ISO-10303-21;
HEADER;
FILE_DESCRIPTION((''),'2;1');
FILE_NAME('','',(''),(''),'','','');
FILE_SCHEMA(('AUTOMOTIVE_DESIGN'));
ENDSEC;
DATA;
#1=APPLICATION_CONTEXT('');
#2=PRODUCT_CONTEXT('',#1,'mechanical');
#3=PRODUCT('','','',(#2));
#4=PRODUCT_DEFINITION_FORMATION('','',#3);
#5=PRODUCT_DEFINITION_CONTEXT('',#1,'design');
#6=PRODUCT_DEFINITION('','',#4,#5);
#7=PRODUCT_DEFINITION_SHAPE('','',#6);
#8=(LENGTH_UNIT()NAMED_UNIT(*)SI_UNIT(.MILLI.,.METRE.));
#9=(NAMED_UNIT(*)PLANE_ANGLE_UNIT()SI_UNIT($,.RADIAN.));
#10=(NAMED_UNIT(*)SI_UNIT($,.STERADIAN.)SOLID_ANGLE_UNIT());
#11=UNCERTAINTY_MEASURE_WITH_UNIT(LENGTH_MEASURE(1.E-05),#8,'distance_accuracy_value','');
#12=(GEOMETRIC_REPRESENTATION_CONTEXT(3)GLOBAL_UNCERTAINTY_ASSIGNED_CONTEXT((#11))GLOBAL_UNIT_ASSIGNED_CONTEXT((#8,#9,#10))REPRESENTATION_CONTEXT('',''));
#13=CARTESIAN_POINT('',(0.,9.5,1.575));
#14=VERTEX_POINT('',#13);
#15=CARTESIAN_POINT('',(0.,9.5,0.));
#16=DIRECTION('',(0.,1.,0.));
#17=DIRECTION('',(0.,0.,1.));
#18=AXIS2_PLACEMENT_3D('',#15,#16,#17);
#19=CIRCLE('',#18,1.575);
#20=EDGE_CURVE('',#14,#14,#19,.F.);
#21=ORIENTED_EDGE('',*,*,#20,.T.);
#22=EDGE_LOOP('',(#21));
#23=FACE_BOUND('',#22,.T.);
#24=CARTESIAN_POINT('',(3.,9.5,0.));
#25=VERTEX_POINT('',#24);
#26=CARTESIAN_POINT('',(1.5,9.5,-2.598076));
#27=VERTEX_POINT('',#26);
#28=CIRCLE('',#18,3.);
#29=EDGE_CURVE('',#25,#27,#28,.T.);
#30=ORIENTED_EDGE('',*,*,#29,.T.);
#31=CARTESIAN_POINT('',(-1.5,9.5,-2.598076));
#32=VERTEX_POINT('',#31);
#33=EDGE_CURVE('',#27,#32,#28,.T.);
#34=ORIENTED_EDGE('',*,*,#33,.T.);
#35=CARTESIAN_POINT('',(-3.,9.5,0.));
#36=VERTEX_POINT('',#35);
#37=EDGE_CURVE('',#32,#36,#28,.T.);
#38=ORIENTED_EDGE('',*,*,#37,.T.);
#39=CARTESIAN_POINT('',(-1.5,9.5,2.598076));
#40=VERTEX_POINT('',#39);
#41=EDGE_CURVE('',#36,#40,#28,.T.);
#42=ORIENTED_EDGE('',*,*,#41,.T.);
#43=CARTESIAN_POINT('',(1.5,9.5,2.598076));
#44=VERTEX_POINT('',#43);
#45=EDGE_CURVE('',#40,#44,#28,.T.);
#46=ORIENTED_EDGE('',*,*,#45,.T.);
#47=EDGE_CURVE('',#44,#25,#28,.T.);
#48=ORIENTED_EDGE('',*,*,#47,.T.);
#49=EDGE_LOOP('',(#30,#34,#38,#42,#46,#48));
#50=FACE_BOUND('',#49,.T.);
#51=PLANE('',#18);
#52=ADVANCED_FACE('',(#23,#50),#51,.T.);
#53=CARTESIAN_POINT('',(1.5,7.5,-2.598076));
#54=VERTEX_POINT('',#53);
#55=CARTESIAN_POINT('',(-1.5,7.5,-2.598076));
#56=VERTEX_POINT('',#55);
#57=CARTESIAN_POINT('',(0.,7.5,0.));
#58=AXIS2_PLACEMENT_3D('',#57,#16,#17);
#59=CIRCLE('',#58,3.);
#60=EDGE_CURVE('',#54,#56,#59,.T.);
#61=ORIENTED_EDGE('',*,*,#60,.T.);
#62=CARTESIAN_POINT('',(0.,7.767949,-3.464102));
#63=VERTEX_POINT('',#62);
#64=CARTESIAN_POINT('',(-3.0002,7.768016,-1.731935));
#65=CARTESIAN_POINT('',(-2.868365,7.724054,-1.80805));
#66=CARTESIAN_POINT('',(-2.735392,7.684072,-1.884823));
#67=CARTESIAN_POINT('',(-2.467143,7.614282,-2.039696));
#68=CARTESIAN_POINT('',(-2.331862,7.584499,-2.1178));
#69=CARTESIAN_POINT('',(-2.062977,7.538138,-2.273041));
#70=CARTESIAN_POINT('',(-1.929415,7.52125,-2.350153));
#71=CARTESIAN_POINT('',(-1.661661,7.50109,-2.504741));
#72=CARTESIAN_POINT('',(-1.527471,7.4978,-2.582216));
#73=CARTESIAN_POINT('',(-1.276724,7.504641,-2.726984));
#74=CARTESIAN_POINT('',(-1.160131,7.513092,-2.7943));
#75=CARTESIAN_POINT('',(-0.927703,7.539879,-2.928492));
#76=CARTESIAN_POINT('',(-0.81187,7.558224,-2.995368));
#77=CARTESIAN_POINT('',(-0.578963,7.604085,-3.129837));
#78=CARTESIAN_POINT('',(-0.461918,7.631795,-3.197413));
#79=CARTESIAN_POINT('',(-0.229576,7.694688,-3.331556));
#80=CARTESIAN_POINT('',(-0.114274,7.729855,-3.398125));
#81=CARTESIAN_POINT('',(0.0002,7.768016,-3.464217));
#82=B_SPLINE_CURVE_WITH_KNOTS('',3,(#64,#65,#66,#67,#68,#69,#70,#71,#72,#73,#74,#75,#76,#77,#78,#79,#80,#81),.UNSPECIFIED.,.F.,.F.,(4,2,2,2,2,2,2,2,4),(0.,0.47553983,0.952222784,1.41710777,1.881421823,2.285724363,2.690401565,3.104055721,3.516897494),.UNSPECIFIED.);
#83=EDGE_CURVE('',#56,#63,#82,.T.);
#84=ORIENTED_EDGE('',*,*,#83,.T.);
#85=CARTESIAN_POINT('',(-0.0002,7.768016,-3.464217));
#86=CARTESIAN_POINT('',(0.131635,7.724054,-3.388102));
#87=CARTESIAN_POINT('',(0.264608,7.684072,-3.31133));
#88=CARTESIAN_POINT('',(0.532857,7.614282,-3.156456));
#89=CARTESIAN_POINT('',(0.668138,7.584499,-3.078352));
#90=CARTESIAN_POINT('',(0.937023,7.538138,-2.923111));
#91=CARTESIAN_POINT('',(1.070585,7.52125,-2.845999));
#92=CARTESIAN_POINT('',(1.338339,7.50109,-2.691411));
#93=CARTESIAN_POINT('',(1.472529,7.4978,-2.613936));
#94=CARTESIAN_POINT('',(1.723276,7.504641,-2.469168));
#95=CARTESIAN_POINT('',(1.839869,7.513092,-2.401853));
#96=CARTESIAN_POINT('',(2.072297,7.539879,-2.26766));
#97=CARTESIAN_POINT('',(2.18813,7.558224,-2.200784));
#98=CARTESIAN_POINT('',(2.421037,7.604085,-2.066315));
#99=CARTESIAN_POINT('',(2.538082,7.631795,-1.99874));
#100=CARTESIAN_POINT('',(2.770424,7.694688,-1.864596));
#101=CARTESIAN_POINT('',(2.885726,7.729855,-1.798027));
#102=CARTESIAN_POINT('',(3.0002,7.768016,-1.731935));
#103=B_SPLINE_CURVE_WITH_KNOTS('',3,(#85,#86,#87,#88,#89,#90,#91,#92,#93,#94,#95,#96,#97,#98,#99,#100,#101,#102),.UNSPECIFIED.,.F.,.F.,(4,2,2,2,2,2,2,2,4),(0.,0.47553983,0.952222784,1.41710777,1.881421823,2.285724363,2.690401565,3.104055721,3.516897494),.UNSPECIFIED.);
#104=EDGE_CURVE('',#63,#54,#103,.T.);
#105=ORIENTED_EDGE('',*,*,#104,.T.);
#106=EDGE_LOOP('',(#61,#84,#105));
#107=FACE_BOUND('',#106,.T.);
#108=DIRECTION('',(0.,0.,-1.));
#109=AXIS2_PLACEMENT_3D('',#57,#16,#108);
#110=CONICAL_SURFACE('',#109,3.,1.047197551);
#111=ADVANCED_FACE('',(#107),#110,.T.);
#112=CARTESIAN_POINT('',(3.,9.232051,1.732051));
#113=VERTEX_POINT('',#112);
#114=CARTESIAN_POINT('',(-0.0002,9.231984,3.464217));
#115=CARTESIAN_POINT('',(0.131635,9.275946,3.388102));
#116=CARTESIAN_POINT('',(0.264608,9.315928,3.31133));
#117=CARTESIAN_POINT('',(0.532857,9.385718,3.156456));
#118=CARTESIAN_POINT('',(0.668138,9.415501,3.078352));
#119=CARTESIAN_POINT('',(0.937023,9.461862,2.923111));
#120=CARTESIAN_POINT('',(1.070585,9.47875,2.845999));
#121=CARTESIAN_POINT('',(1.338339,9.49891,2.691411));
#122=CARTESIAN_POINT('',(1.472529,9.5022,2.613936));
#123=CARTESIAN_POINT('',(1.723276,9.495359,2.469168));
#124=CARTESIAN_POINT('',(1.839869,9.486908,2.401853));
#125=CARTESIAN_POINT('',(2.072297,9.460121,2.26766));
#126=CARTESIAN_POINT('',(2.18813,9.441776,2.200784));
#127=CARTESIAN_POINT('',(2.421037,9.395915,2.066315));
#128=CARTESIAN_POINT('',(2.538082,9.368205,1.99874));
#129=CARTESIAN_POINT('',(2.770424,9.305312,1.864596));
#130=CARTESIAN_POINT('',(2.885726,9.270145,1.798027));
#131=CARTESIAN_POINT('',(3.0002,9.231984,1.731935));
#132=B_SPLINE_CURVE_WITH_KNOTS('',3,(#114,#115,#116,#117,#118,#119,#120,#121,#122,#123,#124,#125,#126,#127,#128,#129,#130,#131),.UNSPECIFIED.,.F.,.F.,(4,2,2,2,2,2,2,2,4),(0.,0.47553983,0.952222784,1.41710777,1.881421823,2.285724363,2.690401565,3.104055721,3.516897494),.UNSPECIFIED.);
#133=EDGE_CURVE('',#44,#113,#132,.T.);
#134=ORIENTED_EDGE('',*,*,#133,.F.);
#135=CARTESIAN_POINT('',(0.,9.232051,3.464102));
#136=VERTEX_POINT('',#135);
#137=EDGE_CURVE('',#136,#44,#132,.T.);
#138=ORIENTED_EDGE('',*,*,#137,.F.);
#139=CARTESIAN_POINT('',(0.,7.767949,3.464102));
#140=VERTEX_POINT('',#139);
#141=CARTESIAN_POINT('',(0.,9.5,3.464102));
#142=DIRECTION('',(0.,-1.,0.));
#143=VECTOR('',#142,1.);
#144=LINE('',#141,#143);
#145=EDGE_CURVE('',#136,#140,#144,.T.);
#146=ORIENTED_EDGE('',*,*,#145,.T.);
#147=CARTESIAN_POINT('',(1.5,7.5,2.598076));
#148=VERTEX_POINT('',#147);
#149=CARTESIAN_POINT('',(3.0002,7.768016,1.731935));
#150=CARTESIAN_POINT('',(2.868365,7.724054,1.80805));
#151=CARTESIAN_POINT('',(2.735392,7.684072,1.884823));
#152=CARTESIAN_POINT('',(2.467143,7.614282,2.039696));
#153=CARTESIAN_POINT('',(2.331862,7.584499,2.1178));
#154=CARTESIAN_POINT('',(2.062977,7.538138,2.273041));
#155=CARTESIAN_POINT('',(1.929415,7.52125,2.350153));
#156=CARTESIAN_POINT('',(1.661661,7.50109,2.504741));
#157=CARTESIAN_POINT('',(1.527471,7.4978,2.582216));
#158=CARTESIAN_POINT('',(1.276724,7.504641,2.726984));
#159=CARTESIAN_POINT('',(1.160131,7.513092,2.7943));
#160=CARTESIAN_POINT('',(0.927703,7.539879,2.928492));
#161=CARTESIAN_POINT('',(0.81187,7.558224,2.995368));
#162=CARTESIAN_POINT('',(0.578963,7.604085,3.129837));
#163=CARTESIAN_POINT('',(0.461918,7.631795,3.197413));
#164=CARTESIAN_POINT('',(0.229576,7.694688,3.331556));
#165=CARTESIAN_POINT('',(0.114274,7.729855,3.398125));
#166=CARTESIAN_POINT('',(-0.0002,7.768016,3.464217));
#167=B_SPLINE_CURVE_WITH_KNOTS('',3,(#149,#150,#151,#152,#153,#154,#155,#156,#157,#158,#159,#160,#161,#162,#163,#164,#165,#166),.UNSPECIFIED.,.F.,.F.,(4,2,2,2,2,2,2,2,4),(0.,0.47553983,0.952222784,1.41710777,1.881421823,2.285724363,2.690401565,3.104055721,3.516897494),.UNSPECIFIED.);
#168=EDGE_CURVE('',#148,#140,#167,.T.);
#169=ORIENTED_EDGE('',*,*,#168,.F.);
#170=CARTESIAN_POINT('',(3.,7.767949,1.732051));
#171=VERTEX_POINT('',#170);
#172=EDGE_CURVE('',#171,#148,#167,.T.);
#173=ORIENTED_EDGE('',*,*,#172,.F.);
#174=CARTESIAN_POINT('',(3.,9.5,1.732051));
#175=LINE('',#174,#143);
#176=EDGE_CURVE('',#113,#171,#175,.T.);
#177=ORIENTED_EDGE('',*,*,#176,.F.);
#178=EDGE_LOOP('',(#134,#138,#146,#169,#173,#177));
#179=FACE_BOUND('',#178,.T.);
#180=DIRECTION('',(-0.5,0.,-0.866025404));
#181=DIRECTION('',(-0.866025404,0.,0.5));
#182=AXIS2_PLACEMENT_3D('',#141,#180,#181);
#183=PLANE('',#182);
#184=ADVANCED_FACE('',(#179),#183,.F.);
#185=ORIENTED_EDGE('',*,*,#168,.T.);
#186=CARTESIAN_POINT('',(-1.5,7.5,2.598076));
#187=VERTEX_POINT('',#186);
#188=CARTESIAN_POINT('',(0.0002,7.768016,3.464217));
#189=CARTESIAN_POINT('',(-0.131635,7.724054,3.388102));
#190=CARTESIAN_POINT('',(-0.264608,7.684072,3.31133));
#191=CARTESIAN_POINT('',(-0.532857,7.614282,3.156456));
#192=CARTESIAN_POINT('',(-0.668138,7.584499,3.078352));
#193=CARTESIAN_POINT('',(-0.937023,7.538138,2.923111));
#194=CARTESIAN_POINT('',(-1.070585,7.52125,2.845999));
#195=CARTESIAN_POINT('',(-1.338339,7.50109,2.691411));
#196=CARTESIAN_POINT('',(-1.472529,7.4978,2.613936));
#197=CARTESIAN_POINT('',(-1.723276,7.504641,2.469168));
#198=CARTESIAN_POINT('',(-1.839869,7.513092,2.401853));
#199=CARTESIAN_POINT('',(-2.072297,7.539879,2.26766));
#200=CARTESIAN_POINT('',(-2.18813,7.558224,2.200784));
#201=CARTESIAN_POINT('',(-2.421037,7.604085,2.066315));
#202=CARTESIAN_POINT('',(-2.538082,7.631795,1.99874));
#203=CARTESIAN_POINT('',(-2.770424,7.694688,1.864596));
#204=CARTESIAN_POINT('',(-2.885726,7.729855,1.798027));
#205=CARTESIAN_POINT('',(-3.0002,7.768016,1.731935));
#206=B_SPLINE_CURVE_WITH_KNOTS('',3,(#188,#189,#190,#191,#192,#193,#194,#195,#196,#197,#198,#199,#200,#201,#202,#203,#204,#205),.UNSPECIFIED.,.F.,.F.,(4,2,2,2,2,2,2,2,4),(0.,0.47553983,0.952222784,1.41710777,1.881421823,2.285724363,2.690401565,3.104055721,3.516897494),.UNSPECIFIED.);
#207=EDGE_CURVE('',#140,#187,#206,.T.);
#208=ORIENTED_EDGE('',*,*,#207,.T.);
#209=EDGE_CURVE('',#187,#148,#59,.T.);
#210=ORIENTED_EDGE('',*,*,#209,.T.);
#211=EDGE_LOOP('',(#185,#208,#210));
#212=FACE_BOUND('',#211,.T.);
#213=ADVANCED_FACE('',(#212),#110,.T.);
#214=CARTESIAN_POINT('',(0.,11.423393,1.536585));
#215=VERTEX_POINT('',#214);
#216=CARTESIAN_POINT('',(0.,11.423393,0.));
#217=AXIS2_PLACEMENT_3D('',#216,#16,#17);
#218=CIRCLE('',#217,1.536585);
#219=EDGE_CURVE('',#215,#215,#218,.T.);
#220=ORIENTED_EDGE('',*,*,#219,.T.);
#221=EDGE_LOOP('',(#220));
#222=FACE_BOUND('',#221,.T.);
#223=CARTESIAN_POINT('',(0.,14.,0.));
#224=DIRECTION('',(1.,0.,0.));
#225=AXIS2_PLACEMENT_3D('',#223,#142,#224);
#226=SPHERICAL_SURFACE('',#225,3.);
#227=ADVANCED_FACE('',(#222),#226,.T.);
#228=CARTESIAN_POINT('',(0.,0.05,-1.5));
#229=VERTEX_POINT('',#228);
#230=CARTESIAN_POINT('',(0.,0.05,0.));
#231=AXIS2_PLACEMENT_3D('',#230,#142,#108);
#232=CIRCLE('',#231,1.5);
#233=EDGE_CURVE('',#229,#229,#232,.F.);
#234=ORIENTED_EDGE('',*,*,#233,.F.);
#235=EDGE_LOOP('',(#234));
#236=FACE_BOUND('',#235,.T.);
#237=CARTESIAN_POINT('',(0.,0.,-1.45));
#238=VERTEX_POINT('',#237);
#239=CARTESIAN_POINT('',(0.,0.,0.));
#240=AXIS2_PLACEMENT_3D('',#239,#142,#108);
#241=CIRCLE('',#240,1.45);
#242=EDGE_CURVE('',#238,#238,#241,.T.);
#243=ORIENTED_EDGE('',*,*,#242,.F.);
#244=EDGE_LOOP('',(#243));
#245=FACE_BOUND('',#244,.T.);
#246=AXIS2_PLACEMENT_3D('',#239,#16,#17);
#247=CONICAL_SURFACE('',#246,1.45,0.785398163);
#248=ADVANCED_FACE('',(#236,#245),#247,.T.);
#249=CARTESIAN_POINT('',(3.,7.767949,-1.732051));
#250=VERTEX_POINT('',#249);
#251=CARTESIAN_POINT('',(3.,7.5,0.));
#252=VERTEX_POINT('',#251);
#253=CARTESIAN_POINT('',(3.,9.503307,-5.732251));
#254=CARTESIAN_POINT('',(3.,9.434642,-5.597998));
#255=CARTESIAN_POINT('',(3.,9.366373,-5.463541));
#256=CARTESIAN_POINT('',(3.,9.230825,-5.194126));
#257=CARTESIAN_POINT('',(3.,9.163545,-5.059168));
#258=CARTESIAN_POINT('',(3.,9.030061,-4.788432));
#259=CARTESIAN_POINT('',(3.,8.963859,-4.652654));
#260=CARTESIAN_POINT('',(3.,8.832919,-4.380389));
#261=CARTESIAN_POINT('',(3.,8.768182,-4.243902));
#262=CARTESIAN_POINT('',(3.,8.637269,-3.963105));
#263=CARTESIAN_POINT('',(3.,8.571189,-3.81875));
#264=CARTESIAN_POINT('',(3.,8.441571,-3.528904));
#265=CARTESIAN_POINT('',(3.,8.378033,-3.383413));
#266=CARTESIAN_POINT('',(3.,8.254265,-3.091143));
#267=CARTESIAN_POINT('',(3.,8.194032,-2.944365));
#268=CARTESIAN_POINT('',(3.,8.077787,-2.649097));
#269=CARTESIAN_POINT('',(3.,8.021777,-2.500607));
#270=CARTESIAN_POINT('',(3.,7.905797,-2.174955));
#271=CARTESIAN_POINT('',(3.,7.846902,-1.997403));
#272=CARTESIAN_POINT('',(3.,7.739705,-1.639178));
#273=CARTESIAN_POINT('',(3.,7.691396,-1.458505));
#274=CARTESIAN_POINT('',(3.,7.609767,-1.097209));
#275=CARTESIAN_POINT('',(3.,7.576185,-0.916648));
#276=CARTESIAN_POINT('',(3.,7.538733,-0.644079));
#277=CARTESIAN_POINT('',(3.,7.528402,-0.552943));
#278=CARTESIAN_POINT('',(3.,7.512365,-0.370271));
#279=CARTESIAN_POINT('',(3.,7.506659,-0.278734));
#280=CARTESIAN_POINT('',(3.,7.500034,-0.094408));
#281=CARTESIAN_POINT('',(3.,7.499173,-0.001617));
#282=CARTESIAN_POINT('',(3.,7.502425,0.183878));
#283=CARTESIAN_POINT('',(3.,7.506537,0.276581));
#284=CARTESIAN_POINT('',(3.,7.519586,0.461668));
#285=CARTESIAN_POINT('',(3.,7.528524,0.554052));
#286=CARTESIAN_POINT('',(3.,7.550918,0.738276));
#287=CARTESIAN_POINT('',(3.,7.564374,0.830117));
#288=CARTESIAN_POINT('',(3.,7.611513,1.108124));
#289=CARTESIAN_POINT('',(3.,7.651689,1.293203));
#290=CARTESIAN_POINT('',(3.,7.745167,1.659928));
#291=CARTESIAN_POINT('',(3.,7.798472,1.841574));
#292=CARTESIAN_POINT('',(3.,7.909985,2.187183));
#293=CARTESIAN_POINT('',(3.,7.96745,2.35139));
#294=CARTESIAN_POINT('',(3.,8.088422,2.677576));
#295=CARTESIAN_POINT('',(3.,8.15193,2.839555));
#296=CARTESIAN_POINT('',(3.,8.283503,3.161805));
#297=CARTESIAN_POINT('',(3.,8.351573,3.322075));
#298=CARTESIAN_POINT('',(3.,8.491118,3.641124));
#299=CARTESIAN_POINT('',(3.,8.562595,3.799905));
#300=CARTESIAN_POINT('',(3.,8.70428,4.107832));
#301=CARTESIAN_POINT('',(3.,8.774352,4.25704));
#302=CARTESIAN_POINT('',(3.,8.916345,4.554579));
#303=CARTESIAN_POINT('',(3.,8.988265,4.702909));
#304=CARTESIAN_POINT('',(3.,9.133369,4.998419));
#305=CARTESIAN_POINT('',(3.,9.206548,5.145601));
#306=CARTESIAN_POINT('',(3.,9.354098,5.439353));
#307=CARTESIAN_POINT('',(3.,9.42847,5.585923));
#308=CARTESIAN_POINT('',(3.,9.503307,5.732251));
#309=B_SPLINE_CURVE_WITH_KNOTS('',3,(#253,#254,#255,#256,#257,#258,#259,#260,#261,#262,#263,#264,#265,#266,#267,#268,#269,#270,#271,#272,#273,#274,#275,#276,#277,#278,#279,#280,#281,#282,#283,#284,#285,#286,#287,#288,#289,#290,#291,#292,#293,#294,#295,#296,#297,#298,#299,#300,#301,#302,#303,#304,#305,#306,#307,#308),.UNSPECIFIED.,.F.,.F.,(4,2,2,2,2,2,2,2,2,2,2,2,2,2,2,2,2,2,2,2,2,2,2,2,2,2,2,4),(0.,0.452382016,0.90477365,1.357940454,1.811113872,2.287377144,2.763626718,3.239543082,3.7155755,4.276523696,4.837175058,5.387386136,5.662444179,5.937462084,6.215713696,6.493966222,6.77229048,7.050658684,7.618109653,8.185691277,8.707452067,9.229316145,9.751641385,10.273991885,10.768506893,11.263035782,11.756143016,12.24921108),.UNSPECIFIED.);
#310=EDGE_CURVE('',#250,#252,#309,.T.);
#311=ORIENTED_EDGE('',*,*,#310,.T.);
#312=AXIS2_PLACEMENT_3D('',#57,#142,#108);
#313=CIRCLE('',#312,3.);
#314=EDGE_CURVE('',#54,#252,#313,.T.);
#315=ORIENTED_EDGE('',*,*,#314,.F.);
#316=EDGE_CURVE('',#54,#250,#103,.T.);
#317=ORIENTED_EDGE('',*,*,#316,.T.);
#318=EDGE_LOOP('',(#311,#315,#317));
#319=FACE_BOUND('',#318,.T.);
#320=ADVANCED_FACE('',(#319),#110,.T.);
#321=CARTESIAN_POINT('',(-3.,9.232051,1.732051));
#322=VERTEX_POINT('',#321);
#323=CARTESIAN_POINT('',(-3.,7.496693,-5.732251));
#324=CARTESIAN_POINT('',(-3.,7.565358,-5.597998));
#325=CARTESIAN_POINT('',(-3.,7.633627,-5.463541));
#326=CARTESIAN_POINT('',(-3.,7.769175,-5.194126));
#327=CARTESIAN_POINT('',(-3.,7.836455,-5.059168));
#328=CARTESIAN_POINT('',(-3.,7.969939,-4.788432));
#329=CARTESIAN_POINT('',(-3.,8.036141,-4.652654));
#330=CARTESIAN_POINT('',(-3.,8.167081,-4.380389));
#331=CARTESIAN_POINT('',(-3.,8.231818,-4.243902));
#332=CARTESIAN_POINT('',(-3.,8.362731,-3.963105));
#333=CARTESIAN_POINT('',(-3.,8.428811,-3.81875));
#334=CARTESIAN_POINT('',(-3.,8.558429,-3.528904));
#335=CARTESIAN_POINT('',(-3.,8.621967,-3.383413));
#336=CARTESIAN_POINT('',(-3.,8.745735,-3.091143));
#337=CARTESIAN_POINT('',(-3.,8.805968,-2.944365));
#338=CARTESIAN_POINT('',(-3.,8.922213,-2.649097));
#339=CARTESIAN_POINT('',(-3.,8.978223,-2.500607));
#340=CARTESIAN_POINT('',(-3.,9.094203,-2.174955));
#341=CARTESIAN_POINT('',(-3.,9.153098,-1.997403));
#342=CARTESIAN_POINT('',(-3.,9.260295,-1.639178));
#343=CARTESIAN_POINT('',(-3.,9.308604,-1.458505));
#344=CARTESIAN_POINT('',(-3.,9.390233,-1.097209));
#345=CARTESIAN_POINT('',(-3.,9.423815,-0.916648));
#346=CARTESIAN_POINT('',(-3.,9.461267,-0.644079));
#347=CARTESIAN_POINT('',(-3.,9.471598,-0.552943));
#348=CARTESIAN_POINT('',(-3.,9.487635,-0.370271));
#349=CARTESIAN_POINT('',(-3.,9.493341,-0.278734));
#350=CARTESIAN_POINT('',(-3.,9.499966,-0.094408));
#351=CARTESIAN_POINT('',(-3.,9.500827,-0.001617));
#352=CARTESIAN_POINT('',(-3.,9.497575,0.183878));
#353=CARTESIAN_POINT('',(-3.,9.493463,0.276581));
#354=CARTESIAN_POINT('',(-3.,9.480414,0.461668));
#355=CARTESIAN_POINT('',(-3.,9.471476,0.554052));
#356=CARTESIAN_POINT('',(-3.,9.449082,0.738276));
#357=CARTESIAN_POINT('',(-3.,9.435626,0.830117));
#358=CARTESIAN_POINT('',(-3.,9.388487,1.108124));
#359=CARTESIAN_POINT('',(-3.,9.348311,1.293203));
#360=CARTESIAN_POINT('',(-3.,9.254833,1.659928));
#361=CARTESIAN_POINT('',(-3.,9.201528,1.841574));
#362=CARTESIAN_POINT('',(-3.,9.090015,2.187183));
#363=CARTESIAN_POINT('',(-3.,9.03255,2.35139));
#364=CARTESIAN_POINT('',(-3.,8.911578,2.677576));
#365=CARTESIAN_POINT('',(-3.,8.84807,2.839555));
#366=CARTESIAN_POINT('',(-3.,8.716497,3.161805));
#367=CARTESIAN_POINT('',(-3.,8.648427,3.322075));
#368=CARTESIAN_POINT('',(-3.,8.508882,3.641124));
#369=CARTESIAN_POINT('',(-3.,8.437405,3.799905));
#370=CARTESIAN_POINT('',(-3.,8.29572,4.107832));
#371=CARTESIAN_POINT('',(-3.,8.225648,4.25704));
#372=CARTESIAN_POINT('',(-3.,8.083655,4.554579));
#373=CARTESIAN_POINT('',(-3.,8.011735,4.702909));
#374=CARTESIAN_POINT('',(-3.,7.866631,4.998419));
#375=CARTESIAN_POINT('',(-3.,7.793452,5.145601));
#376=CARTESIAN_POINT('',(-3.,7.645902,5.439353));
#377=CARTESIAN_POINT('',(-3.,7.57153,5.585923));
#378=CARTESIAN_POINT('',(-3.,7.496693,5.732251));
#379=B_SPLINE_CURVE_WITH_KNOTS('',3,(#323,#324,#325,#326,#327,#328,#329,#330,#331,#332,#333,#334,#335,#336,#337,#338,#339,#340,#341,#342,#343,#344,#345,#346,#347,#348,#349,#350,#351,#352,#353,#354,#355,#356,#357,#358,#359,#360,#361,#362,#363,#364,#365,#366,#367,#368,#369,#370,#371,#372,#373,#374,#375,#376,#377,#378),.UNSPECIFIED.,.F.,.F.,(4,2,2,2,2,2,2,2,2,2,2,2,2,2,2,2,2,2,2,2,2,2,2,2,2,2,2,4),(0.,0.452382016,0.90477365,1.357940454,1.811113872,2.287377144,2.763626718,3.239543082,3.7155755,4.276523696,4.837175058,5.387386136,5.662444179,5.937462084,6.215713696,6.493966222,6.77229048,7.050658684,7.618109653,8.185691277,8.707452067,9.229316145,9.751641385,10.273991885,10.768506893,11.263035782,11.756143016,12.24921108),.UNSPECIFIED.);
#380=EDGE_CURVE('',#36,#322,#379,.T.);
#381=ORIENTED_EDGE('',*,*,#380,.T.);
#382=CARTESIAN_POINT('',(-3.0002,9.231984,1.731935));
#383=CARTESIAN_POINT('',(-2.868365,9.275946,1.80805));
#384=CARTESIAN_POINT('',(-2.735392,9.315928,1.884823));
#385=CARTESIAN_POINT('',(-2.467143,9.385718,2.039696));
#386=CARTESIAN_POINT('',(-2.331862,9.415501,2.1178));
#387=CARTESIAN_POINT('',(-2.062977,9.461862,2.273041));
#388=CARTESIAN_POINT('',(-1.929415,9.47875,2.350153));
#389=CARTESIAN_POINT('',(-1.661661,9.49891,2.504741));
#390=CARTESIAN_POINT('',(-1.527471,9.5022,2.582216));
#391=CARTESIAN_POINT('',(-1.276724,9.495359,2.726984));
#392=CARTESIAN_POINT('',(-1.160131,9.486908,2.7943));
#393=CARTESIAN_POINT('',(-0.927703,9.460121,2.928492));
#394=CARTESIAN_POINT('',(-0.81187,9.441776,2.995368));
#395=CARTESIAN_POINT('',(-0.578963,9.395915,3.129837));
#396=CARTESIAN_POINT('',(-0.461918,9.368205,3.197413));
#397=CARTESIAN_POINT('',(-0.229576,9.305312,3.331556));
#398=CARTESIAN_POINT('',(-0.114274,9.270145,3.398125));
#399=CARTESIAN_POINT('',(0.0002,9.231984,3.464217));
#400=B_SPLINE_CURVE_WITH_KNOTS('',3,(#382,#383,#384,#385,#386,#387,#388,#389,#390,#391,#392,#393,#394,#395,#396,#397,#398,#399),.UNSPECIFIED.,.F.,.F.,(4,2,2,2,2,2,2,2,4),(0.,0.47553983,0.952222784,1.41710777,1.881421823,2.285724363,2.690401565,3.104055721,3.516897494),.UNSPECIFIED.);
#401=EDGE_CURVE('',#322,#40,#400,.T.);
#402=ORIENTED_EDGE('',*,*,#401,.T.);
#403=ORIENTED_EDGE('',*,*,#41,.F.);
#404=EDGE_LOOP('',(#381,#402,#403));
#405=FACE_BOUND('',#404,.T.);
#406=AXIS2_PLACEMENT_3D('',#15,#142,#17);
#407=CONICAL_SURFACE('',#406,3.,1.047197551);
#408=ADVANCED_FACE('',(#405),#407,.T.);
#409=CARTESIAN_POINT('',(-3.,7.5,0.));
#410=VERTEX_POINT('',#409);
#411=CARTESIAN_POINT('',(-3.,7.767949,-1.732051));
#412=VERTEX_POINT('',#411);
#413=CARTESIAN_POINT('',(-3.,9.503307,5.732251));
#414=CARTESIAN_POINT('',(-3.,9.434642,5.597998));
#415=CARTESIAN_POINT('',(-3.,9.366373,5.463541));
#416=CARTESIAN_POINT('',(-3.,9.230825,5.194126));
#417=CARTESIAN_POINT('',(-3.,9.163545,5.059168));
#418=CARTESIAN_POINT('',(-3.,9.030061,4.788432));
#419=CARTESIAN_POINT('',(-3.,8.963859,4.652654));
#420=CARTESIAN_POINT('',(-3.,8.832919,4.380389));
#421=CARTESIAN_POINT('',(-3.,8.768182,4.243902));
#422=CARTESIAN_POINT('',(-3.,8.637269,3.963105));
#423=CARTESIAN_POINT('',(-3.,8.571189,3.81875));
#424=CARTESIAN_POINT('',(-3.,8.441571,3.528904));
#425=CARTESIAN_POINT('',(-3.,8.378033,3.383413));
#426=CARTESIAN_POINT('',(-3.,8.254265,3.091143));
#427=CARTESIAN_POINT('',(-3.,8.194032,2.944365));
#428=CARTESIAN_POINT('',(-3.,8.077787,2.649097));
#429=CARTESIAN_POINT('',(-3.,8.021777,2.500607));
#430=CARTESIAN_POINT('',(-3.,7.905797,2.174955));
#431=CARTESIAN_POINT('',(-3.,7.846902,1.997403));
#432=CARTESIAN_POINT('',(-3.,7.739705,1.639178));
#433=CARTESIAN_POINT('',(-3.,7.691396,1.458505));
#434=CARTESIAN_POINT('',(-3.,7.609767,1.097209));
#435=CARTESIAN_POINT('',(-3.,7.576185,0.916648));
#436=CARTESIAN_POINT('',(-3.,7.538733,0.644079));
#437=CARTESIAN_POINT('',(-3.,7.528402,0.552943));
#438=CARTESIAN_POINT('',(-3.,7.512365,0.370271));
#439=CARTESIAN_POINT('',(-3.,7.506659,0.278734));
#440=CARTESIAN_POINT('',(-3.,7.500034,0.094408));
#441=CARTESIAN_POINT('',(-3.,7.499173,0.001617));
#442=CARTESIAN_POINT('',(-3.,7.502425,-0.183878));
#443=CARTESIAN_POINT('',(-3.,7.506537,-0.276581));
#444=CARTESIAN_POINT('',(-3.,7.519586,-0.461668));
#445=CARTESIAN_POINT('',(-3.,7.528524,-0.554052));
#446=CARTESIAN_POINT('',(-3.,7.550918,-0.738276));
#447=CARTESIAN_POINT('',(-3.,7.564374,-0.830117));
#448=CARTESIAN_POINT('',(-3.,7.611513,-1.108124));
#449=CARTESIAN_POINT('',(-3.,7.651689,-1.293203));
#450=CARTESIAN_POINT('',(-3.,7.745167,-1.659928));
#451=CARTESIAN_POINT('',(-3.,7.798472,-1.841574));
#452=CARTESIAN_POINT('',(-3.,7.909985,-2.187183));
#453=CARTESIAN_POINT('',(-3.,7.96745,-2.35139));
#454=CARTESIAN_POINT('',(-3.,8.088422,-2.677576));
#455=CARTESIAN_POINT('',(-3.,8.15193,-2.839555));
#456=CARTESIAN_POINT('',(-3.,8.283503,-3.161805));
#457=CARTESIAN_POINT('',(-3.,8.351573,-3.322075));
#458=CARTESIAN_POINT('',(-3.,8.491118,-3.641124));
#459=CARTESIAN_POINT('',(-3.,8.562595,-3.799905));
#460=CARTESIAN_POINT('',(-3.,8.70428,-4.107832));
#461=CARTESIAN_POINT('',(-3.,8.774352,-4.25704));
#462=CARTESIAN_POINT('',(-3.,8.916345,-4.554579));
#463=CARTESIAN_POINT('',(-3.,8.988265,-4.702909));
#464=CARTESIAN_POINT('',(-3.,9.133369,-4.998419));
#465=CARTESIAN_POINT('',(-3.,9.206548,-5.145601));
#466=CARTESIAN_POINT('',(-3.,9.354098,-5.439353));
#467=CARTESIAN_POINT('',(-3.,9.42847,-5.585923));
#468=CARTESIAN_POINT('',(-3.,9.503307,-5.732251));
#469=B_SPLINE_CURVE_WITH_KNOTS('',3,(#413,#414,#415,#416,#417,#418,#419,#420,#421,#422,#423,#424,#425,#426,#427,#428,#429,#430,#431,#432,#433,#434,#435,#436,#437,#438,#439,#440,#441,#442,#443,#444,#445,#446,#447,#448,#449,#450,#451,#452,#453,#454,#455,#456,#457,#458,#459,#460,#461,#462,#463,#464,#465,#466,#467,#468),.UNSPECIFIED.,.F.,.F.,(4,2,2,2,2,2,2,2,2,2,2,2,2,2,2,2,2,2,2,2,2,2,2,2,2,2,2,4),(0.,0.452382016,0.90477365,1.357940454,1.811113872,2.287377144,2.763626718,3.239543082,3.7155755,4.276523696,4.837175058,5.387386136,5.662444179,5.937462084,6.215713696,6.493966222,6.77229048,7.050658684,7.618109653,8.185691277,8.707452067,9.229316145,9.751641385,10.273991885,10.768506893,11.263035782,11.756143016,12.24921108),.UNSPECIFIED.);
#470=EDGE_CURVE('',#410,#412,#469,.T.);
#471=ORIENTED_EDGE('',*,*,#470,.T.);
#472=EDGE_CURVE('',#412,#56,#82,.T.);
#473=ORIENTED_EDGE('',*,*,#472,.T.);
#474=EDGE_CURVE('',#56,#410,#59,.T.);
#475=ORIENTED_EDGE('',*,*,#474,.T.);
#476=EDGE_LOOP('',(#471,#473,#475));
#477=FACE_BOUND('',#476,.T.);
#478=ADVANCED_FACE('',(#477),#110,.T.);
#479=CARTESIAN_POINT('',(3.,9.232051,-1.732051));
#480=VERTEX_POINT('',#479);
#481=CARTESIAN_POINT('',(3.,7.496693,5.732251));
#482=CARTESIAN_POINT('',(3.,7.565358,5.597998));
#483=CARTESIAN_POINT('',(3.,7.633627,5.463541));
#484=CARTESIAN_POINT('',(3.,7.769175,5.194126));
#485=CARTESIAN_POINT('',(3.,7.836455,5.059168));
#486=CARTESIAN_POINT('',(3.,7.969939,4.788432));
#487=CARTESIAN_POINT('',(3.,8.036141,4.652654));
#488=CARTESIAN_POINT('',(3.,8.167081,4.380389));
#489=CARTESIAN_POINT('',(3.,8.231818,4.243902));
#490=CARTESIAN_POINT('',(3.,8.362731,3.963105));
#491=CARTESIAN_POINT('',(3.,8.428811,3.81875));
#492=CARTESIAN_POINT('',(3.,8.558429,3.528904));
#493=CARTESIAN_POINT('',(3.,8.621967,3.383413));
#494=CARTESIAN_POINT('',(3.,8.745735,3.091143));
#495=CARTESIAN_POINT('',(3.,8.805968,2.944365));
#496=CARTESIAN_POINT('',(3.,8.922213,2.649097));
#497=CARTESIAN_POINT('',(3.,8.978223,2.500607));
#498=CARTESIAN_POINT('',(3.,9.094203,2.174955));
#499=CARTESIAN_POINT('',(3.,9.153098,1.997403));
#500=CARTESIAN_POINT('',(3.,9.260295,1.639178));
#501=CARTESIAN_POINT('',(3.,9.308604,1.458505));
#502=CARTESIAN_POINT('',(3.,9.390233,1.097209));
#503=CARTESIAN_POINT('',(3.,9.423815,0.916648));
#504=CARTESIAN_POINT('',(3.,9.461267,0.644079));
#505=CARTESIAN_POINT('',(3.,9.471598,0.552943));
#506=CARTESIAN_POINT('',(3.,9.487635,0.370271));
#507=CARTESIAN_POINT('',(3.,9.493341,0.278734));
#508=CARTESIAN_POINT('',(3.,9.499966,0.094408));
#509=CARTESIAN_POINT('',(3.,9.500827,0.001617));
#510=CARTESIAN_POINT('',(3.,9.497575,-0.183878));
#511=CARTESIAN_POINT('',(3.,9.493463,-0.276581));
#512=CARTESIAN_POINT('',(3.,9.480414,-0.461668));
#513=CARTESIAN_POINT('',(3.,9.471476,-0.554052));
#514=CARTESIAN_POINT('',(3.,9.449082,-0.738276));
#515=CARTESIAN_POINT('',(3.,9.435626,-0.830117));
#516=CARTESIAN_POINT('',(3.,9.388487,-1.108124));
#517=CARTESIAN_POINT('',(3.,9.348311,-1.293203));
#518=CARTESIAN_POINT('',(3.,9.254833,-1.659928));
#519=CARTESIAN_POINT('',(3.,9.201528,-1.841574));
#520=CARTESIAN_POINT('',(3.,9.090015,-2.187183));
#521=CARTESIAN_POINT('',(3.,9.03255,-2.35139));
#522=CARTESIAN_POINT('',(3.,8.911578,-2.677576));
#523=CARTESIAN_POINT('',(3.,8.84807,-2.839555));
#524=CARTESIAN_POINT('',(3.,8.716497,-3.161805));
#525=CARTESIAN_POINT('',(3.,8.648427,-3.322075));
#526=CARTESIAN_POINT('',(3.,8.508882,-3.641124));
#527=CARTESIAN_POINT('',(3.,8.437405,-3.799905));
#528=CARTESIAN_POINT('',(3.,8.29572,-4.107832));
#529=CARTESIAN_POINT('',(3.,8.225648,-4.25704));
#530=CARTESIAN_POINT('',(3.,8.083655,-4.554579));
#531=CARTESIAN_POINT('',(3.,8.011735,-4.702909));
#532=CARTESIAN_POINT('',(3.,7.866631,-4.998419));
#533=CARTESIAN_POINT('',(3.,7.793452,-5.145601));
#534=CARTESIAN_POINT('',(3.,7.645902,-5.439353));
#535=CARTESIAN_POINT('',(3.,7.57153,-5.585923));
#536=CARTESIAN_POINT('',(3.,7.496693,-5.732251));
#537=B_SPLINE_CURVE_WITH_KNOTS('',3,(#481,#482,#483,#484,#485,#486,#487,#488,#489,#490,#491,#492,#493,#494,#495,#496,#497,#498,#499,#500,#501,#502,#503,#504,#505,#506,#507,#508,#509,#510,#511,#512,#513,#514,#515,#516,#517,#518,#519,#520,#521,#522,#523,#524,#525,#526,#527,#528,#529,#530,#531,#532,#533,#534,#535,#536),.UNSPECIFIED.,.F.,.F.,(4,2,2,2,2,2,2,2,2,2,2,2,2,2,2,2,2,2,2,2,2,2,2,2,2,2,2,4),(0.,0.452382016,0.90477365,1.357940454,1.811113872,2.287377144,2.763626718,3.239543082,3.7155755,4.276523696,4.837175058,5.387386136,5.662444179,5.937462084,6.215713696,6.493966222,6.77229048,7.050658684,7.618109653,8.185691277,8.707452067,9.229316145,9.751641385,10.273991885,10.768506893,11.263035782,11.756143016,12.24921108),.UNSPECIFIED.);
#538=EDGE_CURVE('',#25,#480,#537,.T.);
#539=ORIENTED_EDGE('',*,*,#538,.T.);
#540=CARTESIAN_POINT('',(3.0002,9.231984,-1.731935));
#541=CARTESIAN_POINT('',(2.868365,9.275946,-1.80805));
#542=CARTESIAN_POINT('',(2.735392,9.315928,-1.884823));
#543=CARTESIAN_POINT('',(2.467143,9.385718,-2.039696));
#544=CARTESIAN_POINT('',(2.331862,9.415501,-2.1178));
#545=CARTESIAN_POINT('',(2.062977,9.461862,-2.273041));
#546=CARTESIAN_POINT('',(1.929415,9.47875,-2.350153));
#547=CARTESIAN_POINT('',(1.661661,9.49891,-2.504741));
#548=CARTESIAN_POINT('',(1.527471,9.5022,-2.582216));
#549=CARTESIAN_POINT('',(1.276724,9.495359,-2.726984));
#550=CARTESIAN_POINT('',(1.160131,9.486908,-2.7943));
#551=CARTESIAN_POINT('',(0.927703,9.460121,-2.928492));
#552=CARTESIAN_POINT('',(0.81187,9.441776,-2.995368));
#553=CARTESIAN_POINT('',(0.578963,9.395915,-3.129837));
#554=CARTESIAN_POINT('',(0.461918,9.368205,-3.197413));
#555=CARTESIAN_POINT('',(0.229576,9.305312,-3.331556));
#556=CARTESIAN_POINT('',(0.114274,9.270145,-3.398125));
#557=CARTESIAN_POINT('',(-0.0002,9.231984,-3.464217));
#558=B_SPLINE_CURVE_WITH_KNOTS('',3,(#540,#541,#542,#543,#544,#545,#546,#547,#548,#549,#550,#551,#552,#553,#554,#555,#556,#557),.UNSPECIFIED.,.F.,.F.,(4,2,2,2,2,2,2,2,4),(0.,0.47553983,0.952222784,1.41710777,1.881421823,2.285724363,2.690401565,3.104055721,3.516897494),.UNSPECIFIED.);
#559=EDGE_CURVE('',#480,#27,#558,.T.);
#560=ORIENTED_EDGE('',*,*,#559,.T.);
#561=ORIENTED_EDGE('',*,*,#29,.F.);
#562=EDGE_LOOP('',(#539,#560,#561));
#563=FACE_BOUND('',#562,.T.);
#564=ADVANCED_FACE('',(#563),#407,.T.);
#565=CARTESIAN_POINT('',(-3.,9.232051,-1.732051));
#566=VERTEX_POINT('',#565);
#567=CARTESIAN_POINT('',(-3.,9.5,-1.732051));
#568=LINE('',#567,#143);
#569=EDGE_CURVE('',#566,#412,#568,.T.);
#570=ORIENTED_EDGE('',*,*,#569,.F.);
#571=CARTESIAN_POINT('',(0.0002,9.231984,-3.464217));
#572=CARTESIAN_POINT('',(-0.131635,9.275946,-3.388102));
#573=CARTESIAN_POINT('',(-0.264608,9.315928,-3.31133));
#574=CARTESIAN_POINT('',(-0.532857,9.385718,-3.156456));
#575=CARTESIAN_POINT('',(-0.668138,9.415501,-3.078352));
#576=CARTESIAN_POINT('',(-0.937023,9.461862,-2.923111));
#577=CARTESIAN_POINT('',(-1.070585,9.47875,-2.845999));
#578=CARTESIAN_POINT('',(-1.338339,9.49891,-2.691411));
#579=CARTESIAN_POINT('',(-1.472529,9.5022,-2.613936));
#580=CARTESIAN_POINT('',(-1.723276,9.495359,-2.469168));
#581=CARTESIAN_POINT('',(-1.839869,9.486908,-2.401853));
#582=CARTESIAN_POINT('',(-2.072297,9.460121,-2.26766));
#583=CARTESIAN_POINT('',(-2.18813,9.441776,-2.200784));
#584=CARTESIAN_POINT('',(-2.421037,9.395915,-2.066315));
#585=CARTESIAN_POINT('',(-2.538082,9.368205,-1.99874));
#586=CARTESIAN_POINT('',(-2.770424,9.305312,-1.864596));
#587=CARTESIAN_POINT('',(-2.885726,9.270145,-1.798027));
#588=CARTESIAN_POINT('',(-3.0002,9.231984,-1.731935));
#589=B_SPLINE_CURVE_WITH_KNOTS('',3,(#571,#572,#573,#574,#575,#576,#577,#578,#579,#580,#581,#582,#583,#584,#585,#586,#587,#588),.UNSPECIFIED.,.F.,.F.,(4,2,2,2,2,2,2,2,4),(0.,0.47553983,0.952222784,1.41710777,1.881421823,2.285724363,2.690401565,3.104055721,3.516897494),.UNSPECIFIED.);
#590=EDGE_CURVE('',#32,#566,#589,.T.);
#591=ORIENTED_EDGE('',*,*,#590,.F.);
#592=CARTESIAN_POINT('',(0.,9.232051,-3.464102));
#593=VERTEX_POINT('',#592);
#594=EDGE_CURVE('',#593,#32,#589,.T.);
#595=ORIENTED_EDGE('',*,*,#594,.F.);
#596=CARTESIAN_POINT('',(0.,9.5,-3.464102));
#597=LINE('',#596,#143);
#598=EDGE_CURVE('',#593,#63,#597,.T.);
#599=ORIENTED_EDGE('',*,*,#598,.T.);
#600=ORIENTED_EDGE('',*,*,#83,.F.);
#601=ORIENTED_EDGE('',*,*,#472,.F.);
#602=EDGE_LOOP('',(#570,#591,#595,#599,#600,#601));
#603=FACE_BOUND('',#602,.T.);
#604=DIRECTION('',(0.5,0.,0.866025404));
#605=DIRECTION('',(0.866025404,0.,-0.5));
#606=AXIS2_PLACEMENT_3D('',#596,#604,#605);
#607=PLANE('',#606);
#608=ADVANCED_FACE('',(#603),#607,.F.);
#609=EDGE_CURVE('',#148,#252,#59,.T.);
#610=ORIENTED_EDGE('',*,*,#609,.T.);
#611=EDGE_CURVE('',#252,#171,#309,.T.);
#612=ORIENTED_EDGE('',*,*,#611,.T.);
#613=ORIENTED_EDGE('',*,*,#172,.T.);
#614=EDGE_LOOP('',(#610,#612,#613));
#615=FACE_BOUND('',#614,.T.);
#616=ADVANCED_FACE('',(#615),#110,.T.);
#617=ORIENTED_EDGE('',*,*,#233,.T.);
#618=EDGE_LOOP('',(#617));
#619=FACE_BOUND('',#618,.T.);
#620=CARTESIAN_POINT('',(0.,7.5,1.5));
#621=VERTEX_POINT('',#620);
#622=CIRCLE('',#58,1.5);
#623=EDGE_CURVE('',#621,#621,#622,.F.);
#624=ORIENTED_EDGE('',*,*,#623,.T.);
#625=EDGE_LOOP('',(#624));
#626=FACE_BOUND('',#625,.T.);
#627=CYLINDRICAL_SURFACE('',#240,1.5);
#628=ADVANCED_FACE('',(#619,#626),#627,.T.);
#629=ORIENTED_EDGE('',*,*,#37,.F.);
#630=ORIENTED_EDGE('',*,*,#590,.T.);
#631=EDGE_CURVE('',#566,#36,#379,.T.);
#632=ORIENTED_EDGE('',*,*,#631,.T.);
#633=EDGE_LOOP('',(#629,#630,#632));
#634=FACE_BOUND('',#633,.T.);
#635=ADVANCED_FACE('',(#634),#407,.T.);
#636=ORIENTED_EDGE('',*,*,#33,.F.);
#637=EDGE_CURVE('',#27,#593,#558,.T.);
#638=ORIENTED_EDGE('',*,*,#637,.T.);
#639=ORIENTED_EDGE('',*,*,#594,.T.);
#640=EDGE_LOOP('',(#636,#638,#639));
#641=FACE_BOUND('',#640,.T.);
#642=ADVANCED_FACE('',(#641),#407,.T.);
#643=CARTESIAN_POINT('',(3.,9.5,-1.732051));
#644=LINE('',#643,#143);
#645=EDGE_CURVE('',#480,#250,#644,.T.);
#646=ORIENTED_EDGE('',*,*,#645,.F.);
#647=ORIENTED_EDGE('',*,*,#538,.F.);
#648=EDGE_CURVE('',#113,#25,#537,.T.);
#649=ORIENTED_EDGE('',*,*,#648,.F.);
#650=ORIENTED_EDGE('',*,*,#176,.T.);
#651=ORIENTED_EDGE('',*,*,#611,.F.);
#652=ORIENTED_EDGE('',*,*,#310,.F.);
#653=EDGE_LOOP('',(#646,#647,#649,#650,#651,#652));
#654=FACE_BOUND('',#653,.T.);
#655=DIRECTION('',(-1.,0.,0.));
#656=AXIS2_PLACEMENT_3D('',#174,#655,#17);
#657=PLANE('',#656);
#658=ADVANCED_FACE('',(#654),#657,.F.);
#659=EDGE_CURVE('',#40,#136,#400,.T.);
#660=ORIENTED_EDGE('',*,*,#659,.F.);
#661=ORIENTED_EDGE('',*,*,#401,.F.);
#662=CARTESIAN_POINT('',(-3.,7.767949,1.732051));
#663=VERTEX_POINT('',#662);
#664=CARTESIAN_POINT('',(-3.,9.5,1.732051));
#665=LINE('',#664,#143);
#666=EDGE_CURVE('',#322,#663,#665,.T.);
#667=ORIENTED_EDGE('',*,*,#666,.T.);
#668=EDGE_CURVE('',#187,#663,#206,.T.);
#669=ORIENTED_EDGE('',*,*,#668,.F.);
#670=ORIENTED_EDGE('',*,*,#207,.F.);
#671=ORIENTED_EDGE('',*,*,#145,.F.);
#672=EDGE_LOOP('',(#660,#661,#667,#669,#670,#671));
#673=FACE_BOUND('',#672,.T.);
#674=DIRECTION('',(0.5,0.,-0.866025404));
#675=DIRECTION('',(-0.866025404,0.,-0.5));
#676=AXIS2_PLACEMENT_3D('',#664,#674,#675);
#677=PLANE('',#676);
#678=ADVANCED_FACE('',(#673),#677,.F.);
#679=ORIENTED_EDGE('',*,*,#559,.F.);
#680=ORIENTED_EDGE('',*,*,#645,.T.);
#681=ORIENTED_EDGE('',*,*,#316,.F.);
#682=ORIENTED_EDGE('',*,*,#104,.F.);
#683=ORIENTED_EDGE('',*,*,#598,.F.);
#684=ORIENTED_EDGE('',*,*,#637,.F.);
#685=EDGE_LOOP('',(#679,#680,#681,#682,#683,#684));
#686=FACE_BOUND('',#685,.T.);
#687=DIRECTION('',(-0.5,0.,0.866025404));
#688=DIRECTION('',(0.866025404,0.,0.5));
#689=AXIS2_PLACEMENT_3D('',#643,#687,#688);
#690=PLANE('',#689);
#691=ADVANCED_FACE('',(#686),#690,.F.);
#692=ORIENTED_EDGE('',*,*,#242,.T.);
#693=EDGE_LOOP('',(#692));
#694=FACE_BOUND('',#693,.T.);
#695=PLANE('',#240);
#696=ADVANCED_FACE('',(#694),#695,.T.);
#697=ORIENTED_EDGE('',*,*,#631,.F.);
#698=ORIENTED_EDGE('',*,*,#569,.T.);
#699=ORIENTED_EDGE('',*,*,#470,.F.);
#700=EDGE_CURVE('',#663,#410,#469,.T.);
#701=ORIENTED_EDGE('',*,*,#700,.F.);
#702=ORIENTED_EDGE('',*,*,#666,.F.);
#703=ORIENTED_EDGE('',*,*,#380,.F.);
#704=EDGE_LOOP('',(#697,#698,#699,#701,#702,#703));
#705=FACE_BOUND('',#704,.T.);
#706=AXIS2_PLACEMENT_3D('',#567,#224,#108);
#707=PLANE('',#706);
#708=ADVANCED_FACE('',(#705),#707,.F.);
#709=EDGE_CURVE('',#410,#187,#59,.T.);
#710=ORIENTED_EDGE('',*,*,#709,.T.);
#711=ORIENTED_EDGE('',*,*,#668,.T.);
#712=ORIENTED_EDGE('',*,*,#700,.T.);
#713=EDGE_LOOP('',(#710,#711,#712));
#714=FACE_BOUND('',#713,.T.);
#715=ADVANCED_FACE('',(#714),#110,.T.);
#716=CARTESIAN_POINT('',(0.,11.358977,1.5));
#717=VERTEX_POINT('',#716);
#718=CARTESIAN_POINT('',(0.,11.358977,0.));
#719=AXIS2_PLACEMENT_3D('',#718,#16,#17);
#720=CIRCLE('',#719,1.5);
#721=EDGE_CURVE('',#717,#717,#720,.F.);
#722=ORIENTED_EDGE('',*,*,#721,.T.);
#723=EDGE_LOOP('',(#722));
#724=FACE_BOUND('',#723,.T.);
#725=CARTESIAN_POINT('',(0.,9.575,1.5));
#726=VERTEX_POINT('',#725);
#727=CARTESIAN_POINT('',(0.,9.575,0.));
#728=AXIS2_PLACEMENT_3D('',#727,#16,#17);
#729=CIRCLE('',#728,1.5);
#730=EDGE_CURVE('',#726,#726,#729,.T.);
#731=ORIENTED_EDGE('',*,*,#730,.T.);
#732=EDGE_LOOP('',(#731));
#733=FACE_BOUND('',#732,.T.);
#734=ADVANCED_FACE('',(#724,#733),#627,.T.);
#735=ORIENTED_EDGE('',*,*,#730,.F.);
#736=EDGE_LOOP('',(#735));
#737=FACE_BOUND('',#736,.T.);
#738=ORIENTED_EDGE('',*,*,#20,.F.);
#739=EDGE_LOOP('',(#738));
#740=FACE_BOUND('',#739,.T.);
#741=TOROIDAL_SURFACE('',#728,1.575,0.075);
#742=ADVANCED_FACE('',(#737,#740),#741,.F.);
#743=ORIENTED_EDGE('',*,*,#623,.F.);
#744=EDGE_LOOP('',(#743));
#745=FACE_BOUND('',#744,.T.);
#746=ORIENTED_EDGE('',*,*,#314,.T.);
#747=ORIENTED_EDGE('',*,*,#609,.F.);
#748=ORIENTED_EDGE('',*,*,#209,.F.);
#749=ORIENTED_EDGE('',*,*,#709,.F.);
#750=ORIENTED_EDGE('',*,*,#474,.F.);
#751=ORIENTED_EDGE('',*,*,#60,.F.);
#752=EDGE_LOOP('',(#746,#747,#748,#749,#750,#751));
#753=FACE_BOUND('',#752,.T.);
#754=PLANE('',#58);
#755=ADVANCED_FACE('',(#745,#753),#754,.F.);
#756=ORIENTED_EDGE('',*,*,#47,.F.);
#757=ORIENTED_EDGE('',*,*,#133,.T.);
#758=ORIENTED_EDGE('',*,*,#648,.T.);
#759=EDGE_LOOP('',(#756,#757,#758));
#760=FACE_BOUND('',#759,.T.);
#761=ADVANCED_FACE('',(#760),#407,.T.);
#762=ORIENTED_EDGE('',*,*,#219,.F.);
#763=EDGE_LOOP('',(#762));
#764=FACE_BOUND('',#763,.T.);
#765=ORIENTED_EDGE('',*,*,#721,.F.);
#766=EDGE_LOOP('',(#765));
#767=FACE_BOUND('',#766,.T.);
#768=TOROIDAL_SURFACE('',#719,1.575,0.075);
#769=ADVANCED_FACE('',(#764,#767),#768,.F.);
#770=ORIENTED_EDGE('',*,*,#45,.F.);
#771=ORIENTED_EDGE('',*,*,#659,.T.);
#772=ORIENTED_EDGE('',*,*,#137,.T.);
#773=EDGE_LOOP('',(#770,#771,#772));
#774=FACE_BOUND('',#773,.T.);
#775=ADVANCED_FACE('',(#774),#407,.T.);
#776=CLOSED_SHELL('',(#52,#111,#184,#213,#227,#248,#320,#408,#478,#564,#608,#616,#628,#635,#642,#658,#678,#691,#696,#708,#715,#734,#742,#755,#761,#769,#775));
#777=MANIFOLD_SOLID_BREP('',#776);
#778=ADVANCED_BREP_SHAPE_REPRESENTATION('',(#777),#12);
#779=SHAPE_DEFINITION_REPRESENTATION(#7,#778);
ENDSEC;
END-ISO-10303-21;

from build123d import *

# Parameters (mm, degrees)
CHAMFER1_SIZE       = 0.05
BOSS_EXTRUDE1_DEPTH = 2
SKETCH6_OUTSIDE_W   = 18.79
SKETCH6_OUTSIDE_H   = 19.718
SKETCH6_OUTSIDE_R   = 3
CUT_EXTRUDE1_DEPTH  = 2
CUT_EXTRUDE1_TAPER  = 60
SKETCH7_OUTSIDE_W   = 18.79
SKETCH7_OUTSIDE_H   = 19.718
SKETCH7_OUTSIDE_R   = 3
CUT_EXTRUDE2_DEPTH  = 2
CUT_EXTRUDE2_TAPER  = 60
FILLET1_R           = 0.075


with BuildPart() as part:
    # Sketch1 → Revolve1 (revolve)
    with BuildSketch(Plane.XY):
        with BuildLine():
            Line((0, 0), (1.5, 0))
            Line((1.5, 0), (1.5, 11.401923789))
            ThreePointArc((1.5, 11.401923789), (2.897777479, 14.776457135), (0, 17))
            Line((0, 17), (0, 11))
            Line((0, 11), (0, 0))
        make_face()
    revolve(axis=Axis((0, 0, 0), (0, 1, 0)))

    # Chamfer1
    chamfer1_edges = [part.edges().sort_by_distance(p)[0] for p in [
        (-1.5, 0, 0),
    ]]
    chamfer(chamfer1_edges, length=CHAMFER1_SIZE)

    # Sketch4 → Boss-Extrude1 (add)
    with BuildSketch(Plane(origin=(0, 7.5, 0), x_dir=(1, 0, 0), z_dir=(0, 1, 0))):
        Polygon((3, -1.732050808), (3, 1.732050808), (0, 3.464101615), (-3, 1.732050808), (-3, -1.732050808), (0, -3.464101615), align=None)
    extrude(amount=BOSS_EXTRUDE1_DEPTH)

    # Sketch6 outside → Cut-Extrude1 (cut)
    with BuildSketch(Plane.XZ.offset(-7.5)):
        Rectangle(SKETCH6_OUTSIDE_W, SKETCH6_OUTSIDE_H)
        Circle(SKETCH6_OUTSIDE_R, mode=Mode.SUBTRACT)
    extrude(amount=-CUT_EXTRUDE1_DEPTH, taper=CUT_EXTRUDE1_TAPER, mode=Mode.SUBTRACT)

    # Sketch7 outside → Cut-Extrude2 (cut)
    with BuildSketch(Plane(origin=(0, 9.5, 0), x_dir=(1, 0, 0), z_dir=(0, 1, 0))):
        Rectangle(SKETCH7_OUTSIDE_W, SKETCH7_OUTSIDE_H)
        Circle(SKETCH7_OUTSIDE_R, mode=Mode.SUBTRACT)
    extrude(amount=-CUT_EXTRUDE2_DEPTH, taper=CUT_EXTRUDE2_TAPER, mode=Mode.SUBTRACT)

    # Fillet1
    fillet1_edges = [part.edges().sort_by_distance(p)[0] for p in [
        (-1.5, 9.5, 0),
        (-1.5, 11.401923789, 0),
    ]]
    fillet(fillet1_edges, radius=FILLET1_R)


solid = part.part
